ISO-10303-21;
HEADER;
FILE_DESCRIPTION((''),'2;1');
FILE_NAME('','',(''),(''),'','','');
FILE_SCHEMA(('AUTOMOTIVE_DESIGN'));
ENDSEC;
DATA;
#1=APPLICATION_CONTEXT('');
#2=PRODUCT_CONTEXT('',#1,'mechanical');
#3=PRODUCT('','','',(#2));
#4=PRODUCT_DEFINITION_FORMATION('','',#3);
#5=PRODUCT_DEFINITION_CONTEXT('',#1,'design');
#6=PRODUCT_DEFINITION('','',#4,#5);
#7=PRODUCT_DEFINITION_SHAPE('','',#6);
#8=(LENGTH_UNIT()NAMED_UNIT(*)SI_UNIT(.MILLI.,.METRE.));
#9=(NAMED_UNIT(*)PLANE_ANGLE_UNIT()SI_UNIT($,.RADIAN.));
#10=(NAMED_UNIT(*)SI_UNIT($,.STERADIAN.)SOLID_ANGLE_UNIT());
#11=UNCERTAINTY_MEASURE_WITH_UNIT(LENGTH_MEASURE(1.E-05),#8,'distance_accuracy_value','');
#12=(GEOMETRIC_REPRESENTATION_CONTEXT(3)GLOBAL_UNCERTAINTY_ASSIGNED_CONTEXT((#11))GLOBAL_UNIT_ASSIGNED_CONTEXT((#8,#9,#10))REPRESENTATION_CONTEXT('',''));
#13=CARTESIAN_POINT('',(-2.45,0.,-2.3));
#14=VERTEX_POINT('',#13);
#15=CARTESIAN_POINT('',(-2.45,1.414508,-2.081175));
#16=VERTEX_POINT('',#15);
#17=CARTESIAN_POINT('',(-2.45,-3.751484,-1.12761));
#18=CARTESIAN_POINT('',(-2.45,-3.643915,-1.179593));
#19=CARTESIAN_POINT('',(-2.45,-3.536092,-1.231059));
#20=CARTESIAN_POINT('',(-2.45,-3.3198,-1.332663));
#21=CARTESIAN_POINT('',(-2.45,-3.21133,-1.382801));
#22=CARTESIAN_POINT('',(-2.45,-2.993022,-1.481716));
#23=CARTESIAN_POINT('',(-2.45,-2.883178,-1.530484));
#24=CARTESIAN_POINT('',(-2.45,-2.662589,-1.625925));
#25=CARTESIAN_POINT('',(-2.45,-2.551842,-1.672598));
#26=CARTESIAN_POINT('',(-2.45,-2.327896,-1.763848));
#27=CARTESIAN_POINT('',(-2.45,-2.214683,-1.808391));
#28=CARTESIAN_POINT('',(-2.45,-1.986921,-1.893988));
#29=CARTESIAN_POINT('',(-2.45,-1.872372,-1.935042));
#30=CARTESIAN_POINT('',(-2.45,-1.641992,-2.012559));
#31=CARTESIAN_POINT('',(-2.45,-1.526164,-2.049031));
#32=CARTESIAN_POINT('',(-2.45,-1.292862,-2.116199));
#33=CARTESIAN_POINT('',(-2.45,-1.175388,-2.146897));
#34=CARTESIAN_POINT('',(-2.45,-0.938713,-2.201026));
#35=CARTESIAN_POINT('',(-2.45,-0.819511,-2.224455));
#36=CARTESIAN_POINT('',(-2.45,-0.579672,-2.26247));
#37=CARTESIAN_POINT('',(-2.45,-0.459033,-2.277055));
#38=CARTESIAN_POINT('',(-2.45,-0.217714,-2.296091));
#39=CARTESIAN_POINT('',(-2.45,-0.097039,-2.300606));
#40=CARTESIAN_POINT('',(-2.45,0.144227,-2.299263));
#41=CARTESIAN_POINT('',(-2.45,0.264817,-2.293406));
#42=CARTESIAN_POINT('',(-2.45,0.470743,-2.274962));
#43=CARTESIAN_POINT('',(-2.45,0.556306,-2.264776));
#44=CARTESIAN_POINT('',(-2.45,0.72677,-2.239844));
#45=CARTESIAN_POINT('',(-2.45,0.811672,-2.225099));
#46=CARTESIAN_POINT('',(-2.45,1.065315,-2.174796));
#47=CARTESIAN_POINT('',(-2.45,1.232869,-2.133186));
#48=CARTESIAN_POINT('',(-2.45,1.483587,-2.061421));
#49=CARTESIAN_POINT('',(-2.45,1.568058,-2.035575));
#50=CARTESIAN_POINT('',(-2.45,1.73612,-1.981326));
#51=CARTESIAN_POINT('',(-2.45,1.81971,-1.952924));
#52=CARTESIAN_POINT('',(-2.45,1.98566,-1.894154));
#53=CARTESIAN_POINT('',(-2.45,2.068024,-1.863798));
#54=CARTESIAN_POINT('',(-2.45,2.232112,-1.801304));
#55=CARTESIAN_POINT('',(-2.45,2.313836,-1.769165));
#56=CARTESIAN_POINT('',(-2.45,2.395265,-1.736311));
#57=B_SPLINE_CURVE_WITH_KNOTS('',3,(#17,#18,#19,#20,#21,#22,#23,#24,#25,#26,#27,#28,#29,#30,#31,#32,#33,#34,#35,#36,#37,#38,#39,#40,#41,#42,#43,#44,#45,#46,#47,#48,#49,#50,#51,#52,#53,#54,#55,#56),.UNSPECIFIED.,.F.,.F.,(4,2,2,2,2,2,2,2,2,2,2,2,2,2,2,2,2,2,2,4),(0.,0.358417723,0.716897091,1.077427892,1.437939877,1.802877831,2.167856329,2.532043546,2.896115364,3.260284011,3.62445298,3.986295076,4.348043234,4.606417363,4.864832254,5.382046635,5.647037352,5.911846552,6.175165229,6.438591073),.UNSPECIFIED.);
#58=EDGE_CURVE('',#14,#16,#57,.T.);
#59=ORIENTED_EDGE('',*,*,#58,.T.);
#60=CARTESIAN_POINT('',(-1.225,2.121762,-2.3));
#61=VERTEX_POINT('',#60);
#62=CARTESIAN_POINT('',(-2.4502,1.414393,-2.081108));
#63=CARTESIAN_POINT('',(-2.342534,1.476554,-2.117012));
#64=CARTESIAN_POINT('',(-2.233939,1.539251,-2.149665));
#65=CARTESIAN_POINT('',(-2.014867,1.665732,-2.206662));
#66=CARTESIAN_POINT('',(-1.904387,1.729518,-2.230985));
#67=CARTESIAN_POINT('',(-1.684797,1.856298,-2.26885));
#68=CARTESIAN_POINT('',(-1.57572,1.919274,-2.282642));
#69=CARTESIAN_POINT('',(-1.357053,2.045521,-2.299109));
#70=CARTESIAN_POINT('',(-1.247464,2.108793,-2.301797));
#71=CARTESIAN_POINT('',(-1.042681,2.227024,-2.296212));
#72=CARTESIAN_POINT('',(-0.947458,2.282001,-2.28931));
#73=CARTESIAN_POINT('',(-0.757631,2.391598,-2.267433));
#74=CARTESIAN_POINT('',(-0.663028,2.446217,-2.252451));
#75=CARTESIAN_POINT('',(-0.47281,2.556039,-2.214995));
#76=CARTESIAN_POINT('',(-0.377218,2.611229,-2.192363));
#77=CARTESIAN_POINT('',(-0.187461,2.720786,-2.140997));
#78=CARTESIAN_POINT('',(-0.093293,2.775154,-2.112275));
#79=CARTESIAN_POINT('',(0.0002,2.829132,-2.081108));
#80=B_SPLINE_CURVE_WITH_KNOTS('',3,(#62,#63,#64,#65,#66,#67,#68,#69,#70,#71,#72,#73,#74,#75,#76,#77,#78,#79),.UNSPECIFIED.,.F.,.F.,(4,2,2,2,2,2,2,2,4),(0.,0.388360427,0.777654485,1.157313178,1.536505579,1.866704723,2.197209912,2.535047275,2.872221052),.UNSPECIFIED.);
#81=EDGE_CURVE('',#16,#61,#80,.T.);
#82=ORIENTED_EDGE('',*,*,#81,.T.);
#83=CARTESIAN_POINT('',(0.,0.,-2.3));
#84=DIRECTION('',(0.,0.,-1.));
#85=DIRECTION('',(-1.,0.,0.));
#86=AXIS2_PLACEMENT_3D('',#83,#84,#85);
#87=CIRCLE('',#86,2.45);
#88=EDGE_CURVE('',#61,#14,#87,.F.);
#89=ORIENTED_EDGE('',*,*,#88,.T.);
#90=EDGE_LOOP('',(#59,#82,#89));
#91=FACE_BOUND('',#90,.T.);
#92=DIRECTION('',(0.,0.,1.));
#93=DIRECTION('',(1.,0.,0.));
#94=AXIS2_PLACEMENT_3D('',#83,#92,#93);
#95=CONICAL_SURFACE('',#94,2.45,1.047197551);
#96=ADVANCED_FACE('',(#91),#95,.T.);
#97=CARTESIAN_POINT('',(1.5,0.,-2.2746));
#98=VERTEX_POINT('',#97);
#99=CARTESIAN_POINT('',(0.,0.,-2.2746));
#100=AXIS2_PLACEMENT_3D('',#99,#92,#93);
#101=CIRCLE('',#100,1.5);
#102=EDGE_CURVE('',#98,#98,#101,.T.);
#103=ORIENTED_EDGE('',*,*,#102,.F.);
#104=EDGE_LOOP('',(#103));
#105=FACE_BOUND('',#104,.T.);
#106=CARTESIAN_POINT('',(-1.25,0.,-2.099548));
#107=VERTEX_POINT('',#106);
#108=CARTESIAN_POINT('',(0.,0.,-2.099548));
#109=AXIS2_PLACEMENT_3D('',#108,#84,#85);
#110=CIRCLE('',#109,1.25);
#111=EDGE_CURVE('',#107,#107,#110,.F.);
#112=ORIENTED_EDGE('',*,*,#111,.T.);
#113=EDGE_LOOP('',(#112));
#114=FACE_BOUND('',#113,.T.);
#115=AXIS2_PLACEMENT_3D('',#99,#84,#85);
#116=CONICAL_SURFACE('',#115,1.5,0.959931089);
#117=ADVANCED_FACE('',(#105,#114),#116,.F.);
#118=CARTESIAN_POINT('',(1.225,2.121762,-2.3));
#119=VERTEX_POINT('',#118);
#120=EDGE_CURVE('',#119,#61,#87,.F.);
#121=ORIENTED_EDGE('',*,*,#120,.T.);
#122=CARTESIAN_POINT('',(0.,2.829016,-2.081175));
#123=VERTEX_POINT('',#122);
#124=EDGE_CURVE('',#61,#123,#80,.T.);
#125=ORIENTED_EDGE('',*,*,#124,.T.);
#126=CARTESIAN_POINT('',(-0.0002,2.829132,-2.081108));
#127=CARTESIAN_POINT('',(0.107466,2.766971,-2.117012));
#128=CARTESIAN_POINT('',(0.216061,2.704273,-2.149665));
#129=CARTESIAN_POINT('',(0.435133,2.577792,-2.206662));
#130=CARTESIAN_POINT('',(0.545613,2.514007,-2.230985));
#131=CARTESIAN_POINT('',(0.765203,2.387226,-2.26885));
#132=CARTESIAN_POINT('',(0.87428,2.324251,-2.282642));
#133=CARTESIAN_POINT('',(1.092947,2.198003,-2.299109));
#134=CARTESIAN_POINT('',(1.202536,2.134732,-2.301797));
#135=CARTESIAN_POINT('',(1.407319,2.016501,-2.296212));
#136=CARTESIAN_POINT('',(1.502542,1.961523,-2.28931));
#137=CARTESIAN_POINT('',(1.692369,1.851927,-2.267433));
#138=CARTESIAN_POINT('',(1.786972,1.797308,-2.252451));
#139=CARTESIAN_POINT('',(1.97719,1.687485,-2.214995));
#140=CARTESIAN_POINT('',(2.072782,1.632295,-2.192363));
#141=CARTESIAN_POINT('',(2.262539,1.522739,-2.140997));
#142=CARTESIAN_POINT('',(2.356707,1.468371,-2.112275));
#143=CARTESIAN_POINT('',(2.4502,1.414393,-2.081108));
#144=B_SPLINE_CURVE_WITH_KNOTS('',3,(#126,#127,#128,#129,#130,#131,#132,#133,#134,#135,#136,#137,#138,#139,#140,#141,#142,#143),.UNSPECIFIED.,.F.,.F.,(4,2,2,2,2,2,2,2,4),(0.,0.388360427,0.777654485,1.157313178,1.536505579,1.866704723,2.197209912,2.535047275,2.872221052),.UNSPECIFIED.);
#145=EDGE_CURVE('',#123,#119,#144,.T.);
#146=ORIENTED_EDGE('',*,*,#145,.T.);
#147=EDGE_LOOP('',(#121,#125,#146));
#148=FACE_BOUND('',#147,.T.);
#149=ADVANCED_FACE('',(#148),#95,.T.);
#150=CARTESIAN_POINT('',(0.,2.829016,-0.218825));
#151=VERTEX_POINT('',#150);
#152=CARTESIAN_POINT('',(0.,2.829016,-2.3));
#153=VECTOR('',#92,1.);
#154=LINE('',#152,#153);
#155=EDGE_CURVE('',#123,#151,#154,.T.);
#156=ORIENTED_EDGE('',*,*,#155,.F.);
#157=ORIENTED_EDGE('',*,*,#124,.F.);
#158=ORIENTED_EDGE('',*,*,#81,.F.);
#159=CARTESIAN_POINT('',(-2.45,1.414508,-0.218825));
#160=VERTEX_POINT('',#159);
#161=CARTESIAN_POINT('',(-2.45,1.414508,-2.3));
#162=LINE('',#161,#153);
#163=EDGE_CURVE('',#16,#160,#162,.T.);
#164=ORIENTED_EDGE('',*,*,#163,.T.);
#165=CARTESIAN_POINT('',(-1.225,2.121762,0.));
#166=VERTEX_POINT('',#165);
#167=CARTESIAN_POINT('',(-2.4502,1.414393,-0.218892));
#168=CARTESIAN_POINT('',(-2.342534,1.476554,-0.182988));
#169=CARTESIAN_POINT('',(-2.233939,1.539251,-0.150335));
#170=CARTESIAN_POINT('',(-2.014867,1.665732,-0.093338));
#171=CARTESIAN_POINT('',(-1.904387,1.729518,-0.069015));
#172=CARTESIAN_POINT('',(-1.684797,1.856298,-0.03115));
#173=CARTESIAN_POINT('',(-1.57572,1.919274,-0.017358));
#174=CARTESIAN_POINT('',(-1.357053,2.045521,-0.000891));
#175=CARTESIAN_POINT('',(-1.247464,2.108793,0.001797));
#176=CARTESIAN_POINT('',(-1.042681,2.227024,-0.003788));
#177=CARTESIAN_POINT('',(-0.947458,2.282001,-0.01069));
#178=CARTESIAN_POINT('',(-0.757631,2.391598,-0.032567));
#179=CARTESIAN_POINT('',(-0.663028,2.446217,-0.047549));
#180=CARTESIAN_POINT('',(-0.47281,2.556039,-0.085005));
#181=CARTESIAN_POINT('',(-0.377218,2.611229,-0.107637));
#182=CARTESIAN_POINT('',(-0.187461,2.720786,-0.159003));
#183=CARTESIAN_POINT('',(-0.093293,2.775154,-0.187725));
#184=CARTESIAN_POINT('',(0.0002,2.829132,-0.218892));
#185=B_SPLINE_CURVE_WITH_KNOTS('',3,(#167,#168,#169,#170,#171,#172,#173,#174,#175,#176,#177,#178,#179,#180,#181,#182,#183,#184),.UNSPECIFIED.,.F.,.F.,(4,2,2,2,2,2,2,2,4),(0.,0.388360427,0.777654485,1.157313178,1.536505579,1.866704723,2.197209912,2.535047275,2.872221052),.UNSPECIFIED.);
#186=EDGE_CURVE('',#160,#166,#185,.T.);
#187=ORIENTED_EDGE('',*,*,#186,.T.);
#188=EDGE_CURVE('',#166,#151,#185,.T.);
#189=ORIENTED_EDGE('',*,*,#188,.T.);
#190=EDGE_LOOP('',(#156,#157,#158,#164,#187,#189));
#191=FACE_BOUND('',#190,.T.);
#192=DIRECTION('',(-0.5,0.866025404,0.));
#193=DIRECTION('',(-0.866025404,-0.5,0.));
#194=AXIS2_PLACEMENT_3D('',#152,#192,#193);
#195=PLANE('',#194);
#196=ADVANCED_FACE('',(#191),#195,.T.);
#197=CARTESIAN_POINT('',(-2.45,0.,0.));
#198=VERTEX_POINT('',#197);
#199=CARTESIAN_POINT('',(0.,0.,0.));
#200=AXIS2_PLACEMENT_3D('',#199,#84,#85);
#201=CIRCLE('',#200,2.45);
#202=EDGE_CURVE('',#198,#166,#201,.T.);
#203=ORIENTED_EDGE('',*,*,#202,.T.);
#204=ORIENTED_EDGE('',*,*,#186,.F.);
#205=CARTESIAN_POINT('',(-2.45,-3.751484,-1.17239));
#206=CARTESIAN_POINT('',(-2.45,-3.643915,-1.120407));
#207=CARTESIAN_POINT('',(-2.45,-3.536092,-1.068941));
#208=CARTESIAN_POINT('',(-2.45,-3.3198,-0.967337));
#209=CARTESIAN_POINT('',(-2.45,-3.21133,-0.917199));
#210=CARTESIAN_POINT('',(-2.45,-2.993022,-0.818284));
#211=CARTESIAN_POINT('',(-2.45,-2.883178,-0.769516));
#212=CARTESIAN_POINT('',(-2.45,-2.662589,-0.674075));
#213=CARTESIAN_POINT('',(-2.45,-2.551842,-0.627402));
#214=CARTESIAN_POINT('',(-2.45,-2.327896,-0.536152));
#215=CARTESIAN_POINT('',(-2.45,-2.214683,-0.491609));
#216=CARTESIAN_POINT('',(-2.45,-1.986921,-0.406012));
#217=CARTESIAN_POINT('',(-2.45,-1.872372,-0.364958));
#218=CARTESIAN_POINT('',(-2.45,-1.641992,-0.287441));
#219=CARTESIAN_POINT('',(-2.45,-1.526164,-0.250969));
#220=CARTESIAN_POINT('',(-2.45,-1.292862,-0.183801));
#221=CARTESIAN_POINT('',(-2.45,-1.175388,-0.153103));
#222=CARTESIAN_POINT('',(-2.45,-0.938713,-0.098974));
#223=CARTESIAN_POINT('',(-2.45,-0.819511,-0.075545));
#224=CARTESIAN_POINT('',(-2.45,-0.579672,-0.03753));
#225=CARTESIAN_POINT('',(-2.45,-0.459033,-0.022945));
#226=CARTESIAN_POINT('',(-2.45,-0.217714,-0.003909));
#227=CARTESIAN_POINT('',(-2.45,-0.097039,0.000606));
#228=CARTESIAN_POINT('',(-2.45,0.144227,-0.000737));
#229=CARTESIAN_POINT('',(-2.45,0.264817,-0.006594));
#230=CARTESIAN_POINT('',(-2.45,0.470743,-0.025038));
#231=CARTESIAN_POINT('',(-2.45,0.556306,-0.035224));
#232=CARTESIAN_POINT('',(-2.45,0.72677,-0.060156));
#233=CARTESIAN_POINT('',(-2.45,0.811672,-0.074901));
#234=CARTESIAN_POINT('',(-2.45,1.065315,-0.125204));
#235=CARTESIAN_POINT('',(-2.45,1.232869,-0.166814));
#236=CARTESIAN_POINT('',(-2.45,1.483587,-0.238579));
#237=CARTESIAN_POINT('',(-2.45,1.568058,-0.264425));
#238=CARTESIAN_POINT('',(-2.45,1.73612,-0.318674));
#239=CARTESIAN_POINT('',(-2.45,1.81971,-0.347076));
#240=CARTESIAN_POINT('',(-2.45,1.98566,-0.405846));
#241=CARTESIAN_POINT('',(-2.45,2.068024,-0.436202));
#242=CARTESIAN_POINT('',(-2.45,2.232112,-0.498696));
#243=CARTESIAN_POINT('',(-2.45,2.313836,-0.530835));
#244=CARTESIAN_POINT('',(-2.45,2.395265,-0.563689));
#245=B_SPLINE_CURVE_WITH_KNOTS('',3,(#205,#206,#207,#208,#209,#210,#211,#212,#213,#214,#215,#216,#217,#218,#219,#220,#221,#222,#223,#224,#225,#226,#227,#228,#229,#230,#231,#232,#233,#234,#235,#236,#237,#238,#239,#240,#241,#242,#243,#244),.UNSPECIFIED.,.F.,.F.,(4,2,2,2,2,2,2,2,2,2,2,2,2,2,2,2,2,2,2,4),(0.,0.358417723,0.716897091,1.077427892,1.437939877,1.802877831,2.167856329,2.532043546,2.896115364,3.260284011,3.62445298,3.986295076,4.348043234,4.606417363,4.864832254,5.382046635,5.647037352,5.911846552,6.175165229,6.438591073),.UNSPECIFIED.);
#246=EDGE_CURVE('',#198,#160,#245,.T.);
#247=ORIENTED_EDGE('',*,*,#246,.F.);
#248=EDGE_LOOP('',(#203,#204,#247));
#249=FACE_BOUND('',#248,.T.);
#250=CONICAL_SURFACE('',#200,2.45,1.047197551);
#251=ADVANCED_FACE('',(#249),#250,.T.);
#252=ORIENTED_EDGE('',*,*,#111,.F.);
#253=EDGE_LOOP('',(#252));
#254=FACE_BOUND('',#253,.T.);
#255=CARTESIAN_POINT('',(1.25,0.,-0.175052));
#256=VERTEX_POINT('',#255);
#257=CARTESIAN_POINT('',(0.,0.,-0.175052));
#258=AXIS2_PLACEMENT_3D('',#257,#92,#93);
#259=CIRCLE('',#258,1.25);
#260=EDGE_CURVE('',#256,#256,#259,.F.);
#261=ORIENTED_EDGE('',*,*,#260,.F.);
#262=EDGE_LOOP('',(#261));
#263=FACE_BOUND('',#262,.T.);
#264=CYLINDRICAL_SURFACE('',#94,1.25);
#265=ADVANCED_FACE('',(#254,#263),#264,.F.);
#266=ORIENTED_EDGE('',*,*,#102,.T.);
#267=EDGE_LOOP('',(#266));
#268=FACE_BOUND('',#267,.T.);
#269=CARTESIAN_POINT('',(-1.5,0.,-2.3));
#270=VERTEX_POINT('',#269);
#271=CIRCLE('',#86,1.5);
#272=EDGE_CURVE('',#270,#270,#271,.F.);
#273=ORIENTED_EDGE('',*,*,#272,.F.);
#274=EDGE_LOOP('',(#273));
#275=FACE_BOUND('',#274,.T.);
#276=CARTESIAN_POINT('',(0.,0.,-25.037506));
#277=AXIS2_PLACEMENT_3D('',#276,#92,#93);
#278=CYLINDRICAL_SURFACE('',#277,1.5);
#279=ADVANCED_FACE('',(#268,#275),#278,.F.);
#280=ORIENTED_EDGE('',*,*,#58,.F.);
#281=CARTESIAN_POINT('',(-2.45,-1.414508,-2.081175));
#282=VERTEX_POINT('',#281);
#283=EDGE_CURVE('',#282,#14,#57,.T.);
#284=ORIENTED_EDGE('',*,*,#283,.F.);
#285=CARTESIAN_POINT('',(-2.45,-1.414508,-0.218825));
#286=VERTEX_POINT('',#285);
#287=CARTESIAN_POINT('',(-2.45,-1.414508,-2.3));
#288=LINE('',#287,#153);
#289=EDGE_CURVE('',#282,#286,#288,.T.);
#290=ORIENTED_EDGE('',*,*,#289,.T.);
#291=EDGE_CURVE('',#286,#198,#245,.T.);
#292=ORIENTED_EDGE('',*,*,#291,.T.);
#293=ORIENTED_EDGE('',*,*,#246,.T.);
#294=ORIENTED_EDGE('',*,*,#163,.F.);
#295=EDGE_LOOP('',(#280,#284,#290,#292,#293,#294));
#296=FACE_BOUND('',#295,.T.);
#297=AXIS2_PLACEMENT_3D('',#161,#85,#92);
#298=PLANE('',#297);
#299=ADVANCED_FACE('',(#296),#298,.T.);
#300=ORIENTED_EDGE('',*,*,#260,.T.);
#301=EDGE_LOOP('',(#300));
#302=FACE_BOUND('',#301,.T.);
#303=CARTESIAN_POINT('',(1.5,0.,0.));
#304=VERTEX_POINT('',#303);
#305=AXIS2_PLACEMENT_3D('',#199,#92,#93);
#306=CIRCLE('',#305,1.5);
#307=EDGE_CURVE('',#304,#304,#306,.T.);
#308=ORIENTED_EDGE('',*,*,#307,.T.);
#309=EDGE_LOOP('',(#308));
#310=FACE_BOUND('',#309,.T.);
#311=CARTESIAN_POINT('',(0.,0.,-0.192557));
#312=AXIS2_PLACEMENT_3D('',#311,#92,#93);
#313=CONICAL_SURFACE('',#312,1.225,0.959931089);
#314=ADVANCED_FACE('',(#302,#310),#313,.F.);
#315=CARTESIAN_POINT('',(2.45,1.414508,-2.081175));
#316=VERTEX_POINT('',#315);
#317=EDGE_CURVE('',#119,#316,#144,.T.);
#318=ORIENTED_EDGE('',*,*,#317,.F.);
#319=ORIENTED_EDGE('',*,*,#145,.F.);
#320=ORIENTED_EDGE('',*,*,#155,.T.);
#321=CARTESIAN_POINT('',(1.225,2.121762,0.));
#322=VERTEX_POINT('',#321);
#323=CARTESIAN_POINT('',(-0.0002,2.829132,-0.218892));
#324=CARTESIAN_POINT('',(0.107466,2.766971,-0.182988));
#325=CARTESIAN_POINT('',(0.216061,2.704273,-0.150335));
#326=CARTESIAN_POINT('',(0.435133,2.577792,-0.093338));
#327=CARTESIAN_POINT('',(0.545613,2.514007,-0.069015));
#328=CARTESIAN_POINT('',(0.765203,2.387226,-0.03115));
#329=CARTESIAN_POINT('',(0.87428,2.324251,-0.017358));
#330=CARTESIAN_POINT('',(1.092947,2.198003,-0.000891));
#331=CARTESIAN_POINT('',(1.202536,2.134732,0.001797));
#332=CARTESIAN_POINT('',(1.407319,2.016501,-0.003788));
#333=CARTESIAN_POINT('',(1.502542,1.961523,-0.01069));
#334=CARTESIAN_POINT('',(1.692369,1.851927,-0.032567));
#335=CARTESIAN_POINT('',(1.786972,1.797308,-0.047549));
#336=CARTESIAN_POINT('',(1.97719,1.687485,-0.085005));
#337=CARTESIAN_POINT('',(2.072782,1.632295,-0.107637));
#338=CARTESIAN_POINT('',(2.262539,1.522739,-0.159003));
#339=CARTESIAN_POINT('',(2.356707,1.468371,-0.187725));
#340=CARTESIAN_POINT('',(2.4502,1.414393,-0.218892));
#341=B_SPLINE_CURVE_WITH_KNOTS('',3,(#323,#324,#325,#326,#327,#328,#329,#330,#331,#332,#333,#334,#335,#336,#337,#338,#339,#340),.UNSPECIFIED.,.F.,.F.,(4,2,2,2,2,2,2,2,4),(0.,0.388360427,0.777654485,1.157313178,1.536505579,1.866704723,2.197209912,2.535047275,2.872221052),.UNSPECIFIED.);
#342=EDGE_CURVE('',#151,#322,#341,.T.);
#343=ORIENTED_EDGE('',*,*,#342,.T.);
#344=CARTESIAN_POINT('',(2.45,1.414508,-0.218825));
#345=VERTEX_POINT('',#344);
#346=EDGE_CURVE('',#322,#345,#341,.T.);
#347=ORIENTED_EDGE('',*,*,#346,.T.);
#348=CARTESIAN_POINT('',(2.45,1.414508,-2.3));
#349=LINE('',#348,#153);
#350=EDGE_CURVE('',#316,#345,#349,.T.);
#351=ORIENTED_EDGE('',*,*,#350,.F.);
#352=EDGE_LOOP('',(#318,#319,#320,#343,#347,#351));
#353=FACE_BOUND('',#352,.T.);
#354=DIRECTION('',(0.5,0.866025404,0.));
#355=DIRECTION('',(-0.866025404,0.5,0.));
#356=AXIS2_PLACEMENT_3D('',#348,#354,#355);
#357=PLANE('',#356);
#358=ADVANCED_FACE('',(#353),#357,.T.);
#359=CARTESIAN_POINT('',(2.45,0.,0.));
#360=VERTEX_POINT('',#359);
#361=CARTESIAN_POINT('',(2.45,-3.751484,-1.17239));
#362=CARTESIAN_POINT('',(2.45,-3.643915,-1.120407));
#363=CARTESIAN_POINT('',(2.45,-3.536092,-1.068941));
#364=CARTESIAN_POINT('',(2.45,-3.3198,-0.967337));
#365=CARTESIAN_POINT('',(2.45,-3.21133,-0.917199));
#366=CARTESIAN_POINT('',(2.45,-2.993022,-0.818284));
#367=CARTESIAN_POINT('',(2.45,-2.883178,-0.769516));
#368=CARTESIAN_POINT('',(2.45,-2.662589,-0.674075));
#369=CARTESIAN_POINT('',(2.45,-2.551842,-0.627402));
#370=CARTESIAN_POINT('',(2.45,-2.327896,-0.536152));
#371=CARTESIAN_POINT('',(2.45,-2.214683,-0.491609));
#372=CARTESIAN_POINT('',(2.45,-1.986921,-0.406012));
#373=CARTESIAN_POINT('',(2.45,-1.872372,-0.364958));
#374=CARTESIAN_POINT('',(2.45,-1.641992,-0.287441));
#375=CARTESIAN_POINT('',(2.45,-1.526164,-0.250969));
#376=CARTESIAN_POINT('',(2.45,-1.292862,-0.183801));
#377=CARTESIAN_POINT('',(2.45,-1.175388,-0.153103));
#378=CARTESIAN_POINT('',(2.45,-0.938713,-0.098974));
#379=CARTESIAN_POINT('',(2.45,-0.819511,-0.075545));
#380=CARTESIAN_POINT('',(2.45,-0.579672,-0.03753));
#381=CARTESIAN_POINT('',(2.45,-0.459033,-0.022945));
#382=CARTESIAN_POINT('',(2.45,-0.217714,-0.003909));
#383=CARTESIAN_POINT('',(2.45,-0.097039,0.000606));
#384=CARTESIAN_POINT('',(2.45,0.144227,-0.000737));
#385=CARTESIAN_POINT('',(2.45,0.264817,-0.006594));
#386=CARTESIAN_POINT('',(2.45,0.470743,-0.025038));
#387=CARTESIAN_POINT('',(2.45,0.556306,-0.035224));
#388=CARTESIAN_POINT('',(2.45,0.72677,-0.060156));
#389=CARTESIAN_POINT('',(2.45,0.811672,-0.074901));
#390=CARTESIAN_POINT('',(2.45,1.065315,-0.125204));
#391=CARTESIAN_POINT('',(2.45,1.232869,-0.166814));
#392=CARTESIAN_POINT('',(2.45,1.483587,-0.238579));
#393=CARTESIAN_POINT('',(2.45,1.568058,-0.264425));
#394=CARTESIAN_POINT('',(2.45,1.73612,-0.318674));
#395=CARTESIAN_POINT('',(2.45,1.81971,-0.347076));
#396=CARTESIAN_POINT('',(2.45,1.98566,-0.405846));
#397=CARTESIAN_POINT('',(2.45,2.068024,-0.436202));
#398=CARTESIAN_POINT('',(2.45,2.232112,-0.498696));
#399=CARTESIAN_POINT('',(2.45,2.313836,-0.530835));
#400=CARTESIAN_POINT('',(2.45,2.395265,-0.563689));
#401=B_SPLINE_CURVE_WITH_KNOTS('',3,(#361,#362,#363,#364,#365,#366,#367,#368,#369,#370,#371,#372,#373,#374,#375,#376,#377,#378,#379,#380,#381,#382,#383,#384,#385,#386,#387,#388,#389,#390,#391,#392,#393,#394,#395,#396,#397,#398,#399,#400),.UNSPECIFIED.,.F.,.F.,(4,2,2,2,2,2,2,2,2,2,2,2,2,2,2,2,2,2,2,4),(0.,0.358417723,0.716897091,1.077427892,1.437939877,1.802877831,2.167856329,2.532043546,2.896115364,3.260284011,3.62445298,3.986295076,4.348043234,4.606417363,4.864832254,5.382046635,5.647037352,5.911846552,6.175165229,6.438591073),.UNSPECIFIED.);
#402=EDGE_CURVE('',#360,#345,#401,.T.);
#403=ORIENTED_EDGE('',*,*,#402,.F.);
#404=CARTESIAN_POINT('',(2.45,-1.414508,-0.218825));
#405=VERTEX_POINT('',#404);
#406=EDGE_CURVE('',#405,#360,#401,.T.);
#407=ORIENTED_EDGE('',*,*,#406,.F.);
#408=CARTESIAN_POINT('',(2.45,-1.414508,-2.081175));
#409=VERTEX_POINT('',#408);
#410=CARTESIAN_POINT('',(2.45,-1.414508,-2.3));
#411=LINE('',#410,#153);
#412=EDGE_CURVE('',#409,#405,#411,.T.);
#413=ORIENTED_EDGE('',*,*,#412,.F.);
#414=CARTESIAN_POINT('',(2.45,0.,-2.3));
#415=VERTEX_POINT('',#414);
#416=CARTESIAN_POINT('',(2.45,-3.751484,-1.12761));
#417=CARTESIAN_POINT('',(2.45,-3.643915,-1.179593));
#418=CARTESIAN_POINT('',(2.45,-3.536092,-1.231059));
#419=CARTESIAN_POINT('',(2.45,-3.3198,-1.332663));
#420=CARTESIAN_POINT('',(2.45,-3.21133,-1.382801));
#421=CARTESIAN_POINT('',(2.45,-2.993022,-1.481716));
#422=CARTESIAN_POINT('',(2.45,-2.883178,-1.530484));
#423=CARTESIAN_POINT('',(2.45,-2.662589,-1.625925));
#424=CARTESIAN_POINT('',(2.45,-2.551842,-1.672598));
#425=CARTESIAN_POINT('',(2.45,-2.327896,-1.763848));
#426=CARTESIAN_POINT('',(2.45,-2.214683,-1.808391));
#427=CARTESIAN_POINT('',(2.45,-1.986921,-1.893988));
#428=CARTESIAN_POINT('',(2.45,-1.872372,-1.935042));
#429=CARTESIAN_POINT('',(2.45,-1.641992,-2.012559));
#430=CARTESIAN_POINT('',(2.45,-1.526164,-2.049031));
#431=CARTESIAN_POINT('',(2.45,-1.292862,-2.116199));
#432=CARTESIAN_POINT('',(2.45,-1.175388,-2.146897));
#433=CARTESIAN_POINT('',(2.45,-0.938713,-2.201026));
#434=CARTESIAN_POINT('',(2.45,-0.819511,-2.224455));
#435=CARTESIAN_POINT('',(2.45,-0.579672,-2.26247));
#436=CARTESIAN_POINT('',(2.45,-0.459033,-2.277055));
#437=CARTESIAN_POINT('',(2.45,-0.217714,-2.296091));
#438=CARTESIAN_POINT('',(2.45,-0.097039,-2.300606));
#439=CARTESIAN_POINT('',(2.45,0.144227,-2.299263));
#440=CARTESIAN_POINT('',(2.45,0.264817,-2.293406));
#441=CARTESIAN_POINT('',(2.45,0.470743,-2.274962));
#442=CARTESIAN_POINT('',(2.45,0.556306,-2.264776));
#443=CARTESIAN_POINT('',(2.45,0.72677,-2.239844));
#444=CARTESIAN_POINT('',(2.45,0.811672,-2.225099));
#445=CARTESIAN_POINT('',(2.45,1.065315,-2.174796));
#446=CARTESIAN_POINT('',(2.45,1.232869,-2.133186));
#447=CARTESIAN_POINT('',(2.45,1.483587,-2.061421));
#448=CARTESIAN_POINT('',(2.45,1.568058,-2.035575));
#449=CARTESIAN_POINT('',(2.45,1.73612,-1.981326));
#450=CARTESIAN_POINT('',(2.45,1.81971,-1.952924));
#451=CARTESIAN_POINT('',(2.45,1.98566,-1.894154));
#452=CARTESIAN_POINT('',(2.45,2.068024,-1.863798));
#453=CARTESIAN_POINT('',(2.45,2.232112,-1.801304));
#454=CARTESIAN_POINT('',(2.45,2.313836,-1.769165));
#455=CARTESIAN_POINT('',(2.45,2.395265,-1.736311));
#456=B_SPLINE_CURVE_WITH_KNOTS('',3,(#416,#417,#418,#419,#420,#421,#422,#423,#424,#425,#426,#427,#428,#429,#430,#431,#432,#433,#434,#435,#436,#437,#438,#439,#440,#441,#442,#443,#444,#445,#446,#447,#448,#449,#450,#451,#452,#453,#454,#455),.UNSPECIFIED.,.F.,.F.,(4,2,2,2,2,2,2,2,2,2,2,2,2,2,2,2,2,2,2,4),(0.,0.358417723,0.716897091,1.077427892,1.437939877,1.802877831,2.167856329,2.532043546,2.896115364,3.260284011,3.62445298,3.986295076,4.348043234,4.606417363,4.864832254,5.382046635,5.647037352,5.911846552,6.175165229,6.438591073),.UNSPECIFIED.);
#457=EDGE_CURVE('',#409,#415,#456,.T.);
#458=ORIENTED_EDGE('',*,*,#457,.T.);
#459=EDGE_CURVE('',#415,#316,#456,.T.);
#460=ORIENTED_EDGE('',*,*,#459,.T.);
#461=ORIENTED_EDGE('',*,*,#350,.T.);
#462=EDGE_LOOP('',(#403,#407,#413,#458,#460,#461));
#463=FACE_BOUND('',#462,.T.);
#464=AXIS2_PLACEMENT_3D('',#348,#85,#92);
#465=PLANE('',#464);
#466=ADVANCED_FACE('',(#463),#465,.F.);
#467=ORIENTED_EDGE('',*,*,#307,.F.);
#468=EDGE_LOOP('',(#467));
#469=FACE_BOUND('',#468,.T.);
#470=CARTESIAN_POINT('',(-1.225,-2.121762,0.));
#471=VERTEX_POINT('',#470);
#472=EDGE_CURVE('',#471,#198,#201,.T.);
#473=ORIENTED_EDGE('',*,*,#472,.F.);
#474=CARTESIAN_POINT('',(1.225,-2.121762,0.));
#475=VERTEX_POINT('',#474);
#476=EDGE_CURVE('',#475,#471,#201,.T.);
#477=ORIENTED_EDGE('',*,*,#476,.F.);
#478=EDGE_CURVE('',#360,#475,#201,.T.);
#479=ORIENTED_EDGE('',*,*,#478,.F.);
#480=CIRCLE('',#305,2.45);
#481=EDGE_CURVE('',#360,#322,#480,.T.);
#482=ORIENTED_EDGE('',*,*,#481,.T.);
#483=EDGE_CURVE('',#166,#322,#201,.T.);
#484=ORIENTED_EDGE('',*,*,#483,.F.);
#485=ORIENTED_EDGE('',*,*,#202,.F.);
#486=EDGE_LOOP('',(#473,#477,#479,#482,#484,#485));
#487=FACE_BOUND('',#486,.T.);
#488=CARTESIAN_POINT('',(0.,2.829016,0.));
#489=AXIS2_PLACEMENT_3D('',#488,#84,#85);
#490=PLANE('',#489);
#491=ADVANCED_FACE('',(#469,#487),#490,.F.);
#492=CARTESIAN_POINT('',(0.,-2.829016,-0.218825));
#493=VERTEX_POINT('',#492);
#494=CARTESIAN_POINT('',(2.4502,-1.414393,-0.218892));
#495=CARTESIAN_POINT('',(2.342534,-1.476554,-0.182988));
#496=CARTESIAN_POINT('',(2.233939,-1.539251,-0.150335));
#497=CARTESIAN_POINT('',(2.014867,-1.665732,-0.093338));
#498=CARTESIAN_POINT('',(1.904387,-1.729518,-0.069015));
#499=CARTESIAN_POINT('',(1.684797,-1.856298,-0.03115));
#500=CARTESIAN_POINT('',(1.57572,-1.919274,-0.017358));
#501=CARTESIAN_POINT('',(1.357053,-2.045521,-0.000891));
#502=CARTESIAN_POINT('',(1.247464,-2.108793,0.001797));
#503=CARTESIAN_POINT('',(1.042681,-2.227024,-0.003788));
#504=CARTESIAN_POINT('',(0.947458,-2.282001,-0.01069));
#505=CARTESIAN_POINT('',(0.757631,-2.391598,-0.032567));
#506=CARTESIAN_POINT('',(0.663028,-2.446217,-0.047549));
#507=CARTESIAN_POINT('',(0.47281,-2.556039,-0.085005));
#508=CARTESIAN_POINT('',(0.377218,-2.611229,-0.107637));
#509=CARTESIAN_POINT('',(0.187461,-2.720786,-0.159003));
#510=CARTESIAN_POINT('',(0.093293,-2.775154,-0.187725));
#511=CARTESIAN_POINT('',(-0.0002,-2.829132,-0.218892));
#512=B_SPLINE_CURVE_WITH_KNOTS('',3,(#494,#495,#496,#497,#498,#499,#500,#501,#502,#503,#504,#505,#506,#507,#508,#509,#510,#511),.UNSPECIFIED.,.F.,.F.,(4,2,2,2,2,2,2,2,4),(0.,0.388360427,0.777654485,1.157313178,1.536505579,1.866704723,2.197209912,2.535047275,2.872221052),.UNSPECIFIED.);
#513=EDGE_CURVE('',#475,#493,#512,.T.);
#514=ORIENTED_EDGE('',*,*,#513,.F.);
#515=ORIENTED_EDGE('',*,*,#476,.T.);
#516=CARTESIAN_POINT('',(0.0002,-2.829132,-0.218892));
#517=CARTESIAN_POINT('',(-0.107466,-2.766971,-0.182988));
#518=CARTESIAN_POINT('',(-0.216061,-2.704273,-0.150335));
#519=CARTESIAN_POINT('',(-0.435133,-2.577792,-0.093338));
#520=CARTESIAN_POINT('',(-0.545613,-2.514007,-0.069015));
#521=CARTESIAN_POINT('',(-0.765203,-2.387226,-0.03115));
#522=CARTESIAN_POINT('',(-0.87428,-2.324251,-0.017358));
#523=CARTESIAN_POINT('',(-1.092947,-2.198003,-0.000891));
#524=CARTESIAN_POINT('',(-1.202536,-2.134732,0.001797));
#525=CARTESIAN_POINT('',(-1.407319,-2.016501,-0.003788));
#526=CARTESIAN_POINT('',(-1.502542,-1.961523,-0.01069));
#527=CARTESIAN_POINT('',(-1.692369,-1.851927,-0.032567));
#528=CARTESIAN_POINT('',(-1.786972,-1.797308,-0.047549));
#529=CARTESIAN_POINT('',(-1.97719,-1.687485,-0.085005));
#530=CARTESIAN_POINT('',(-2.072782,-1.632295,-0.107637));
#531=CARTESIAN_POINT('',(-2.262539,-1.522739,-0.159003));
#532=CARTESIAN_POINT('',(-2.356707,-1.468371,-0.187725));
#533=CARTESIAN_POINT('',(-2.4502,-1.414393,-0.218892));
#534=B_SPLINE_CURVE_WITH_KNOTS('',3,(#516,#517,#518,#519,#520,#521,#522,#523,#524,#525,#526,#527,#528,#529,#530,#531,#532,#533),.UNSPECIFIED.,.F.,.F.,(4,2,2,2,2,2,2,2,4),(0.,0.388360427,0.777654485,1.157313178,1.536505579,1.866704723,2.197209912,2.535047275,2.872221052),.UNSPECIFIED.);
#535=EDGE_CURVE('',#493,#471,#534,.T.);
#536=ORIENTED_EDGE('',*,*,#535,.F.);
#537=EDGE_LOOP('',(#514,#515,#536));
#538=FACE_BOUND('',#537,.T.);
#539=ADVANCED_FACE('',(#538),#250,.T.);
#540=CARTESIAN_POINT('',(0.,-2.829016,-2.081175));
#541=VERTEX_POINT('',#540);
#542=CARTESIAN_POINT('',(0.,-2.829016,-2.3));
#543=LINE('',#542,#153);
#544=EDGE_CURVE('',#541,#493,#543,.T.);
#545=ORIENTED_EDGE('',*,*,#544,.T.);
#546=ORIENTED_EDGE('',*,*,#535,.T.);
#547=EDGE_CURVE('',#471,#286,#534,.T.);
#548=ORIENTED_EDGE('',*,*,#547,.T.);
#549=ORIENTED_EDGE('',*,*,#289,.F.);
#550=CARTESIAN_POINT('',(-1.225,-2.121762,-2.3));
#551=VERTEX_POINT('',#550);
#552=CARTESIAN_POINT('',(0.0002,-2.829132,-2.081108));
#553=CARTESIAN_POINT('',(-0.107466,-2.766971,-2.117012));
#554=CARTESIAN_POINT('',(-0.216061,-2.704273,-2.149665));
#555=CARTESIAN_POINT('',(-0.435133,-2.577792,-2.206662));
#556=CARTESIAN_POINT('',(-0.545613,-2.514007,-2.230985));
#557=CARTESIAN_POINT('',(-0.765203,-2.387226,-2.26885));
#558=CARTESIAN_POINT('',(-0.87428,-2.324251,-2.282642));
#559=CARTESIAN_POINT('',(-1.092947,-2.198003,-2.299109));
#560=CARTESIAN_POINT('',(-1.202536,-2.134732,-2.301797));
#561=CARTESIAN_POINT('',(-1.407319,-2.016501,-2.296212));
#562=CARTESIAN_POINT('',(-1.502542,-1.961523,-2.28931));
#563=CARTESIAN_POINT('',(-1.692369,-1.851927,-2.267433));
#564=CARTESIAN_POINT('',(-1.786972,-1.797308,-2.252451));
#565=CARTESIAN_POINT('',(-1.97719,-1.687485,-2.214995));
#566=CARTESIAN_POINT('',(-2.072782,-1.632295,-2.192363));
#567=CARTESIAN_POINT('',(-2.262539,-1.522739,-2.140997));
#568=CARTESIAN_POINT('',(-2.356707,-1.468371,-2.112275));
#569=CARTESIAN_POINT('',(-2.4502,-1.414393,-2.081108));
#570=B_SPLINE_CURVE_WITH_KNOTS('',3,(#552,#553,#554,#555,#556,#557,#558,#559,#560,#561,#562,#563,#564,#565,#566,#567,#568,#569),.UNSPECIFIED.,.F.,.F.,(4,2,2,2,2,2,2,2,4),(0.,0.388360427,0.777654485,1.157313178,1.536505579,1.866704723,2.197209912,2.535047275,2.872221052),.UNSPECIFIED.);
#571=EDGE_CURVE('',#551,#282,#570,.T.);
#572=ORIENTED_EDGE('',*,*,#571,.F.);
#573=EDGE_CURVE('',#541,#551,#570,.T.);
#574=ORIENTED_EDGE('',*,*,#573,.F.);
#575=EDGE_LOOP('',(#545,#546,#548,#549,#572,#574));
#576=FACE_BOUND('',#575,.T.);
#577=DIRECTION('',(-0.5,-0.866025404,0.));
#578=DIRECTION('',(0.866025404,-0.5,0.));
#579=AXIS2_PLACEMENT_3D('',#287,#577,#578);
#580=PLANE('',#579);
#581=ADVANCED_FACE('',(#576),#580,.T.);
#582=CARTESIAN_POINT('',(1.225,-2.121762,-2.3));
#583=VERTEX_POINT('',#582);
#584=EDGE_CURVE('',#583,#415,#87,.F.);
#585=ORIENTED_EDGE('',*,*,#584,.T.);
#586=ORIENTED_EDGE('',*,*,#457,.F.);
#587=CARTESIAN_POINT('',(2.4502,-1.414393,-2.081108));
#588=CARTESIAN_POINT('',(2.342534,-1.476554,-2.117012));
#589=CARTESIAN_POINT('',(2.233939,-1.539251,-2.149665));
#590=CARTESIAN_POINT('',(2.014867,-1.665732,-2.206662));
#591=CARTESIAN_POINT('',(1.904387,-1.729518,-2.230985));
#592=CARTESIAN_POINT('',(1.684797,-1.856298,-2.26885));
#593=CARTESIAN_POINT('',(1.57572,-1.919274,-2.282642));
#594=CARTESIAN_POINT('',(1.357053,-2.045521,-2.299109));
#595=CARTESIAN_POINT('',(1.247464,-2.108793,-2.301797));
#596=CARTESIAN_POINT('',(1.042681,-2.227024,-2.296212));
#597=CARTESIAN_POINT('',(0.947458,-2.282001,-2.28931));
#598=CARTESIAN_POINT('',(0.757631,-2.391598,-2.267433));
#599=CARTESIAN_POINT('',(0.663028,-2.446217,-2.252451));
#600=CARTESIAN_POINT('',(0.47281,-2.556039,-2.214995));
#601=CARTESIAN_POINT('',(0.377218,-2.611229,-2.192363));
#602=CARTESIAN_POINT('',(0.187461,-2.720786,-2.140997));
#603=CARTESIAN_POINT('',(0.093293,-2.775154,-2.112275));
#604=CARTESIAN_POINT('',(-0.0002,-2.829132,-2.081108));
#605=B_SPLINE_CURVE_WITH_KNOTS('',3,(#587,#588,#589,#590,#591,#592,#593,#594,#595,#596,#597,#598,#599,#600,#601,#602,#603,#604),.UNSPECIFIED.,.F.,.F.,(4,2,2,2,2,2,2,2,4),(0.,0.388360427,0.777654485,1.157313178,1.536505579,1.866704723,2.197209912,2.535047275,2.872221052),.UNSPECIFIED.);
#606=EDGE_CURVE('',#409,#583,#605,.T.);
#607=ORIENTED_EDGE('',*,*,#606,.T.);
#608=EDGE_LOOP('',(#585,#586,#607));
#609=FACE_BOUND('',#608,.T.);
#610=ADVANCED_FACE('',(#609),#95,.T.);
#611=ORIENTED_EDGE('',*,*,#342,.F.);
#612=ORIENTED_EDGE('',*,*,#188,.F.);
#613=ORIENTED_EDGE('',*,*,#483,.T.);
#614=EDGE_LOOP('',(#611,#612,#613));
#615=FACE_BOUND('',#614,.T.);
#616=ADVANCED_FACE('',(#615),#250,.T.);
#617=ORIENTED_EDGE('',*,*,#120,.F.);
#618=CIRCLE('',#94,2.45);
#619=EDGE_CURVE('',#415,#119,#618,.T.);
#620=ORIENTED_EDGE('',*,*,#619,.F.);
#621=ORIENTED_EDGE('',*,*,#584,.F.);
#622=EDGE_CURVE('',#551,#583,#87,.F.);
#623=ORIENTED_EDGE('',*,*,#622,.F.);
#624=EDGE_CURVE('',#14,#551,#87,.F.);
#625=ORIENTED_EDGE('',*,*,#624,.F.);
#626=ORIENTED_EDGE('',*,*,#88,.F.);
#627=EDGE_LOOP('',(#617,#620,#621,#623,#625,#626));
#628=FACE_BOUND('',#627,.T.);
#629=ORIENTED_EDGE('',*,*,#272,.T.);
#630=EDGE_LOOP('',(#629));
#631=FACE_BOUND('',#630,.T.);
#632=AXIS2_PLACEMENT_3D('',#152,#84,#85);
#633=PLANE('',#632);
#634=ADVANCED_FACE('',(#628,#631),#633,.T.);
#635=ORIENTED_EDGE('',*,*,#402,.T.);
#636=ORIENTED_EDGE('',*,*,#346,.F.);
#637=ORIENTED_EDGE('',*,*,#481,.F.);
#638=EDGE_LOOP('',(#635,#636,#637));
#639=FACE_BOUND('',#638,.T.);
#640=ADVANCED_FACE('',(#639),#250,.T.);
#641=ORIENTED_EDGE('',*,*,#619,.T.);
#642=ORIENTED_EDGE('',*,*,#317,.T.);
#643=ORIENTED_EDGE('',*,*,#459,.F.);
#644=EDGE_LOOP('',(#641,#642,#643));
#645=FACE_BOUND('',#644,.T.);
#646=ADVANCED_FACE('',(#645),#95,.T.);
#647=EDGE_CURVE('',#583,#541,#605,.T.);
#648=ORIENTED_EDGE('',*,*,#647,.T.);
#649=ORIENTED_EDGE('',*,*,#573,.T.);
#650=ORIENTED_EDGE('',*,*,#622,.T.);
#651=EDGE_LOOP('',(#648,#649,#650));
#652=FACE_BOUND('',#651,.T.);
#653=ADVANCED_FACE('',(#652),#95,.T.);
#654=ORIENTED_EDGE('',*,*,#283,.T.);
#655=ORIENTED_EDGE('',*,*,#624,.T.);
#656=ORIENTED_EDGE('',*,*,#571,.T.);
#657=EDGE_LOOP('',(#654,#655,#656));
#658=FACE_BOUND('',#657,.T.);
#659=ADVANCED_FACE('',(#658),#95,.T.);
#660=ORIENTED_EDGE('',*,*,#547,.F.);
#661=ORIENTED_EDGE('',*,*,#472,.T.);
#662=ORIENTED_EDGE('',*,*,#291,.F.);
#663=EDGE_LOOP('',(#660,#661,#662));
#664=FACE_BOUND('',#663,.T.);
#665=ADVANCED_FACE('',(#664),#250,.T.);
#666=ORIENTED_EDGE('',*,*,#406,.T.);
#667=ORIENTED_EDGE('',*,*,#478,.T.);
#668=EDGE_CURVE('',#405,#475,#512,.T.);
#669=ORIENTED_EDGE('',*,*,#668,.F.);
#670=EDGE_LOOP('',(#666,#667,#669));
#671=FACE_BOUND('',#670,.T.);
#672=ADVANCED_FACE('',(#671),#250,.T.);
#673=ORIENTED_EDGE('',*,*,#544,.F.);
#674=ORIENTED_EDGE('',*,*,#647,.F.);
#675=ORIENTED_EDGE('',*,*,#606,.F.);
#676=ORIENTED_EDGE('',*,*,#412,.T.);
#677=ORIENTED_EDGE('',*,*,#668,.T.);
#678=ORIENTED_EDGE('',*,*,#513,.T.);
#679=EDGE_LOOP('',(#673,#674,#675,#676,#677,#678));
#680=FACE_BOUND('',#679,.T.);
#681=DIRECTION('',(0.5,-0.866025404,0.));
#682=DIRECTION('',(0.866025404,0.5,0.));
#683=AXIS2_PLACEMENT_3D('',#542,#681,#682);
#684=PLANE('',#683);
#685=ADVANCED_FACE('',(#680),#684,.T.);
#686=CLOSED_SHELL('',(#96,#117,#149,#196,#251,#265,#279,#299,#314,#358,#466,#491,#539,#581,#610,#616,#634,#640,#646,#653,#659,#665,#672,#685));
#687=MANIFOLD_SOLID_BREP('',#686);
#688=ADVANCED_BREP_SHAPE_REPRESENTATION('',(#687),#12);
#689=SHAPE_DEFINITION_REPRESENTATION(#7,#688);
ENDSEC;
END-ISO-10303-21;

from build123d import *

# Parameters (mm, degrees)
BASENUTSKE_R  = 1.25
BASENUT_DEPTH = 2.3


with BuildPart() as part:
    # BaseNutSke → BaseNut (new body)
    with BuildSketch(Plane.XY):
        Polygon((2.45, 1.41450816), (2.45, -1.41450816), (0, -2.829016319), (-2.45, -1.41450816), (-2.45, 1.41450816), (0, 2.829016319), align=None)
        Circle(BASENUTSKE_R, mode=Mode.SUBTRACT)
    extrude(amount=-BASENUT_DEPTH)

    # Sketch3 → Double-Chamfer (revolve, cut)
    with BuildSketch(Plane(origin=(0, 0, 0), x_dir=(0, 0, -1), z_dir=(1, 0, 0))):
        Polygon((2.3, 2.45), (2.081174826, 2.829016319), (2.081174826, 12.829016319), (12.3, 12.829016319), (12.3, 2.45), align=None)
        Polygon((0.218825174, 12.829016319), (-10, 12.829016319), (-10, 2.45), (0, 2.45), (0.218825174, 2.829016319), align=None)
    revolve(axis=Axis((0, 0, 0), (0, 0, -1)), mode=Mode.SUBTRACT)

    # Sketch5 (on Right Plane) → EndChamfer (revolve, cut)
    with BuildSketch(Plane(origin=(0, 0, 0), x_dir=(0, 0, -1), z_dir=(1, 0, 0)), mode=Mode.PRIVATE) as endchamfer_sk:
        Polygon((2.2746, 1.5), (2.082042927, 1.225), (2.3254, 1.225), (2.3254, 1.5), align=None)
        Polygon((-0.0508, 1.5), (0, 1.5), (0.192557073, 1.225), (-0.0508, 1.225), align=None)
    revolve(endchamfer_sk.sketch.rotate(Axis((0, 0, -25.037505729), (0, 0, -1)), 90), axis=Axis((0, 0, -25.037505729), (0, 0, -1)), mode=Mode.SUBTRACT)


solid = part.part
